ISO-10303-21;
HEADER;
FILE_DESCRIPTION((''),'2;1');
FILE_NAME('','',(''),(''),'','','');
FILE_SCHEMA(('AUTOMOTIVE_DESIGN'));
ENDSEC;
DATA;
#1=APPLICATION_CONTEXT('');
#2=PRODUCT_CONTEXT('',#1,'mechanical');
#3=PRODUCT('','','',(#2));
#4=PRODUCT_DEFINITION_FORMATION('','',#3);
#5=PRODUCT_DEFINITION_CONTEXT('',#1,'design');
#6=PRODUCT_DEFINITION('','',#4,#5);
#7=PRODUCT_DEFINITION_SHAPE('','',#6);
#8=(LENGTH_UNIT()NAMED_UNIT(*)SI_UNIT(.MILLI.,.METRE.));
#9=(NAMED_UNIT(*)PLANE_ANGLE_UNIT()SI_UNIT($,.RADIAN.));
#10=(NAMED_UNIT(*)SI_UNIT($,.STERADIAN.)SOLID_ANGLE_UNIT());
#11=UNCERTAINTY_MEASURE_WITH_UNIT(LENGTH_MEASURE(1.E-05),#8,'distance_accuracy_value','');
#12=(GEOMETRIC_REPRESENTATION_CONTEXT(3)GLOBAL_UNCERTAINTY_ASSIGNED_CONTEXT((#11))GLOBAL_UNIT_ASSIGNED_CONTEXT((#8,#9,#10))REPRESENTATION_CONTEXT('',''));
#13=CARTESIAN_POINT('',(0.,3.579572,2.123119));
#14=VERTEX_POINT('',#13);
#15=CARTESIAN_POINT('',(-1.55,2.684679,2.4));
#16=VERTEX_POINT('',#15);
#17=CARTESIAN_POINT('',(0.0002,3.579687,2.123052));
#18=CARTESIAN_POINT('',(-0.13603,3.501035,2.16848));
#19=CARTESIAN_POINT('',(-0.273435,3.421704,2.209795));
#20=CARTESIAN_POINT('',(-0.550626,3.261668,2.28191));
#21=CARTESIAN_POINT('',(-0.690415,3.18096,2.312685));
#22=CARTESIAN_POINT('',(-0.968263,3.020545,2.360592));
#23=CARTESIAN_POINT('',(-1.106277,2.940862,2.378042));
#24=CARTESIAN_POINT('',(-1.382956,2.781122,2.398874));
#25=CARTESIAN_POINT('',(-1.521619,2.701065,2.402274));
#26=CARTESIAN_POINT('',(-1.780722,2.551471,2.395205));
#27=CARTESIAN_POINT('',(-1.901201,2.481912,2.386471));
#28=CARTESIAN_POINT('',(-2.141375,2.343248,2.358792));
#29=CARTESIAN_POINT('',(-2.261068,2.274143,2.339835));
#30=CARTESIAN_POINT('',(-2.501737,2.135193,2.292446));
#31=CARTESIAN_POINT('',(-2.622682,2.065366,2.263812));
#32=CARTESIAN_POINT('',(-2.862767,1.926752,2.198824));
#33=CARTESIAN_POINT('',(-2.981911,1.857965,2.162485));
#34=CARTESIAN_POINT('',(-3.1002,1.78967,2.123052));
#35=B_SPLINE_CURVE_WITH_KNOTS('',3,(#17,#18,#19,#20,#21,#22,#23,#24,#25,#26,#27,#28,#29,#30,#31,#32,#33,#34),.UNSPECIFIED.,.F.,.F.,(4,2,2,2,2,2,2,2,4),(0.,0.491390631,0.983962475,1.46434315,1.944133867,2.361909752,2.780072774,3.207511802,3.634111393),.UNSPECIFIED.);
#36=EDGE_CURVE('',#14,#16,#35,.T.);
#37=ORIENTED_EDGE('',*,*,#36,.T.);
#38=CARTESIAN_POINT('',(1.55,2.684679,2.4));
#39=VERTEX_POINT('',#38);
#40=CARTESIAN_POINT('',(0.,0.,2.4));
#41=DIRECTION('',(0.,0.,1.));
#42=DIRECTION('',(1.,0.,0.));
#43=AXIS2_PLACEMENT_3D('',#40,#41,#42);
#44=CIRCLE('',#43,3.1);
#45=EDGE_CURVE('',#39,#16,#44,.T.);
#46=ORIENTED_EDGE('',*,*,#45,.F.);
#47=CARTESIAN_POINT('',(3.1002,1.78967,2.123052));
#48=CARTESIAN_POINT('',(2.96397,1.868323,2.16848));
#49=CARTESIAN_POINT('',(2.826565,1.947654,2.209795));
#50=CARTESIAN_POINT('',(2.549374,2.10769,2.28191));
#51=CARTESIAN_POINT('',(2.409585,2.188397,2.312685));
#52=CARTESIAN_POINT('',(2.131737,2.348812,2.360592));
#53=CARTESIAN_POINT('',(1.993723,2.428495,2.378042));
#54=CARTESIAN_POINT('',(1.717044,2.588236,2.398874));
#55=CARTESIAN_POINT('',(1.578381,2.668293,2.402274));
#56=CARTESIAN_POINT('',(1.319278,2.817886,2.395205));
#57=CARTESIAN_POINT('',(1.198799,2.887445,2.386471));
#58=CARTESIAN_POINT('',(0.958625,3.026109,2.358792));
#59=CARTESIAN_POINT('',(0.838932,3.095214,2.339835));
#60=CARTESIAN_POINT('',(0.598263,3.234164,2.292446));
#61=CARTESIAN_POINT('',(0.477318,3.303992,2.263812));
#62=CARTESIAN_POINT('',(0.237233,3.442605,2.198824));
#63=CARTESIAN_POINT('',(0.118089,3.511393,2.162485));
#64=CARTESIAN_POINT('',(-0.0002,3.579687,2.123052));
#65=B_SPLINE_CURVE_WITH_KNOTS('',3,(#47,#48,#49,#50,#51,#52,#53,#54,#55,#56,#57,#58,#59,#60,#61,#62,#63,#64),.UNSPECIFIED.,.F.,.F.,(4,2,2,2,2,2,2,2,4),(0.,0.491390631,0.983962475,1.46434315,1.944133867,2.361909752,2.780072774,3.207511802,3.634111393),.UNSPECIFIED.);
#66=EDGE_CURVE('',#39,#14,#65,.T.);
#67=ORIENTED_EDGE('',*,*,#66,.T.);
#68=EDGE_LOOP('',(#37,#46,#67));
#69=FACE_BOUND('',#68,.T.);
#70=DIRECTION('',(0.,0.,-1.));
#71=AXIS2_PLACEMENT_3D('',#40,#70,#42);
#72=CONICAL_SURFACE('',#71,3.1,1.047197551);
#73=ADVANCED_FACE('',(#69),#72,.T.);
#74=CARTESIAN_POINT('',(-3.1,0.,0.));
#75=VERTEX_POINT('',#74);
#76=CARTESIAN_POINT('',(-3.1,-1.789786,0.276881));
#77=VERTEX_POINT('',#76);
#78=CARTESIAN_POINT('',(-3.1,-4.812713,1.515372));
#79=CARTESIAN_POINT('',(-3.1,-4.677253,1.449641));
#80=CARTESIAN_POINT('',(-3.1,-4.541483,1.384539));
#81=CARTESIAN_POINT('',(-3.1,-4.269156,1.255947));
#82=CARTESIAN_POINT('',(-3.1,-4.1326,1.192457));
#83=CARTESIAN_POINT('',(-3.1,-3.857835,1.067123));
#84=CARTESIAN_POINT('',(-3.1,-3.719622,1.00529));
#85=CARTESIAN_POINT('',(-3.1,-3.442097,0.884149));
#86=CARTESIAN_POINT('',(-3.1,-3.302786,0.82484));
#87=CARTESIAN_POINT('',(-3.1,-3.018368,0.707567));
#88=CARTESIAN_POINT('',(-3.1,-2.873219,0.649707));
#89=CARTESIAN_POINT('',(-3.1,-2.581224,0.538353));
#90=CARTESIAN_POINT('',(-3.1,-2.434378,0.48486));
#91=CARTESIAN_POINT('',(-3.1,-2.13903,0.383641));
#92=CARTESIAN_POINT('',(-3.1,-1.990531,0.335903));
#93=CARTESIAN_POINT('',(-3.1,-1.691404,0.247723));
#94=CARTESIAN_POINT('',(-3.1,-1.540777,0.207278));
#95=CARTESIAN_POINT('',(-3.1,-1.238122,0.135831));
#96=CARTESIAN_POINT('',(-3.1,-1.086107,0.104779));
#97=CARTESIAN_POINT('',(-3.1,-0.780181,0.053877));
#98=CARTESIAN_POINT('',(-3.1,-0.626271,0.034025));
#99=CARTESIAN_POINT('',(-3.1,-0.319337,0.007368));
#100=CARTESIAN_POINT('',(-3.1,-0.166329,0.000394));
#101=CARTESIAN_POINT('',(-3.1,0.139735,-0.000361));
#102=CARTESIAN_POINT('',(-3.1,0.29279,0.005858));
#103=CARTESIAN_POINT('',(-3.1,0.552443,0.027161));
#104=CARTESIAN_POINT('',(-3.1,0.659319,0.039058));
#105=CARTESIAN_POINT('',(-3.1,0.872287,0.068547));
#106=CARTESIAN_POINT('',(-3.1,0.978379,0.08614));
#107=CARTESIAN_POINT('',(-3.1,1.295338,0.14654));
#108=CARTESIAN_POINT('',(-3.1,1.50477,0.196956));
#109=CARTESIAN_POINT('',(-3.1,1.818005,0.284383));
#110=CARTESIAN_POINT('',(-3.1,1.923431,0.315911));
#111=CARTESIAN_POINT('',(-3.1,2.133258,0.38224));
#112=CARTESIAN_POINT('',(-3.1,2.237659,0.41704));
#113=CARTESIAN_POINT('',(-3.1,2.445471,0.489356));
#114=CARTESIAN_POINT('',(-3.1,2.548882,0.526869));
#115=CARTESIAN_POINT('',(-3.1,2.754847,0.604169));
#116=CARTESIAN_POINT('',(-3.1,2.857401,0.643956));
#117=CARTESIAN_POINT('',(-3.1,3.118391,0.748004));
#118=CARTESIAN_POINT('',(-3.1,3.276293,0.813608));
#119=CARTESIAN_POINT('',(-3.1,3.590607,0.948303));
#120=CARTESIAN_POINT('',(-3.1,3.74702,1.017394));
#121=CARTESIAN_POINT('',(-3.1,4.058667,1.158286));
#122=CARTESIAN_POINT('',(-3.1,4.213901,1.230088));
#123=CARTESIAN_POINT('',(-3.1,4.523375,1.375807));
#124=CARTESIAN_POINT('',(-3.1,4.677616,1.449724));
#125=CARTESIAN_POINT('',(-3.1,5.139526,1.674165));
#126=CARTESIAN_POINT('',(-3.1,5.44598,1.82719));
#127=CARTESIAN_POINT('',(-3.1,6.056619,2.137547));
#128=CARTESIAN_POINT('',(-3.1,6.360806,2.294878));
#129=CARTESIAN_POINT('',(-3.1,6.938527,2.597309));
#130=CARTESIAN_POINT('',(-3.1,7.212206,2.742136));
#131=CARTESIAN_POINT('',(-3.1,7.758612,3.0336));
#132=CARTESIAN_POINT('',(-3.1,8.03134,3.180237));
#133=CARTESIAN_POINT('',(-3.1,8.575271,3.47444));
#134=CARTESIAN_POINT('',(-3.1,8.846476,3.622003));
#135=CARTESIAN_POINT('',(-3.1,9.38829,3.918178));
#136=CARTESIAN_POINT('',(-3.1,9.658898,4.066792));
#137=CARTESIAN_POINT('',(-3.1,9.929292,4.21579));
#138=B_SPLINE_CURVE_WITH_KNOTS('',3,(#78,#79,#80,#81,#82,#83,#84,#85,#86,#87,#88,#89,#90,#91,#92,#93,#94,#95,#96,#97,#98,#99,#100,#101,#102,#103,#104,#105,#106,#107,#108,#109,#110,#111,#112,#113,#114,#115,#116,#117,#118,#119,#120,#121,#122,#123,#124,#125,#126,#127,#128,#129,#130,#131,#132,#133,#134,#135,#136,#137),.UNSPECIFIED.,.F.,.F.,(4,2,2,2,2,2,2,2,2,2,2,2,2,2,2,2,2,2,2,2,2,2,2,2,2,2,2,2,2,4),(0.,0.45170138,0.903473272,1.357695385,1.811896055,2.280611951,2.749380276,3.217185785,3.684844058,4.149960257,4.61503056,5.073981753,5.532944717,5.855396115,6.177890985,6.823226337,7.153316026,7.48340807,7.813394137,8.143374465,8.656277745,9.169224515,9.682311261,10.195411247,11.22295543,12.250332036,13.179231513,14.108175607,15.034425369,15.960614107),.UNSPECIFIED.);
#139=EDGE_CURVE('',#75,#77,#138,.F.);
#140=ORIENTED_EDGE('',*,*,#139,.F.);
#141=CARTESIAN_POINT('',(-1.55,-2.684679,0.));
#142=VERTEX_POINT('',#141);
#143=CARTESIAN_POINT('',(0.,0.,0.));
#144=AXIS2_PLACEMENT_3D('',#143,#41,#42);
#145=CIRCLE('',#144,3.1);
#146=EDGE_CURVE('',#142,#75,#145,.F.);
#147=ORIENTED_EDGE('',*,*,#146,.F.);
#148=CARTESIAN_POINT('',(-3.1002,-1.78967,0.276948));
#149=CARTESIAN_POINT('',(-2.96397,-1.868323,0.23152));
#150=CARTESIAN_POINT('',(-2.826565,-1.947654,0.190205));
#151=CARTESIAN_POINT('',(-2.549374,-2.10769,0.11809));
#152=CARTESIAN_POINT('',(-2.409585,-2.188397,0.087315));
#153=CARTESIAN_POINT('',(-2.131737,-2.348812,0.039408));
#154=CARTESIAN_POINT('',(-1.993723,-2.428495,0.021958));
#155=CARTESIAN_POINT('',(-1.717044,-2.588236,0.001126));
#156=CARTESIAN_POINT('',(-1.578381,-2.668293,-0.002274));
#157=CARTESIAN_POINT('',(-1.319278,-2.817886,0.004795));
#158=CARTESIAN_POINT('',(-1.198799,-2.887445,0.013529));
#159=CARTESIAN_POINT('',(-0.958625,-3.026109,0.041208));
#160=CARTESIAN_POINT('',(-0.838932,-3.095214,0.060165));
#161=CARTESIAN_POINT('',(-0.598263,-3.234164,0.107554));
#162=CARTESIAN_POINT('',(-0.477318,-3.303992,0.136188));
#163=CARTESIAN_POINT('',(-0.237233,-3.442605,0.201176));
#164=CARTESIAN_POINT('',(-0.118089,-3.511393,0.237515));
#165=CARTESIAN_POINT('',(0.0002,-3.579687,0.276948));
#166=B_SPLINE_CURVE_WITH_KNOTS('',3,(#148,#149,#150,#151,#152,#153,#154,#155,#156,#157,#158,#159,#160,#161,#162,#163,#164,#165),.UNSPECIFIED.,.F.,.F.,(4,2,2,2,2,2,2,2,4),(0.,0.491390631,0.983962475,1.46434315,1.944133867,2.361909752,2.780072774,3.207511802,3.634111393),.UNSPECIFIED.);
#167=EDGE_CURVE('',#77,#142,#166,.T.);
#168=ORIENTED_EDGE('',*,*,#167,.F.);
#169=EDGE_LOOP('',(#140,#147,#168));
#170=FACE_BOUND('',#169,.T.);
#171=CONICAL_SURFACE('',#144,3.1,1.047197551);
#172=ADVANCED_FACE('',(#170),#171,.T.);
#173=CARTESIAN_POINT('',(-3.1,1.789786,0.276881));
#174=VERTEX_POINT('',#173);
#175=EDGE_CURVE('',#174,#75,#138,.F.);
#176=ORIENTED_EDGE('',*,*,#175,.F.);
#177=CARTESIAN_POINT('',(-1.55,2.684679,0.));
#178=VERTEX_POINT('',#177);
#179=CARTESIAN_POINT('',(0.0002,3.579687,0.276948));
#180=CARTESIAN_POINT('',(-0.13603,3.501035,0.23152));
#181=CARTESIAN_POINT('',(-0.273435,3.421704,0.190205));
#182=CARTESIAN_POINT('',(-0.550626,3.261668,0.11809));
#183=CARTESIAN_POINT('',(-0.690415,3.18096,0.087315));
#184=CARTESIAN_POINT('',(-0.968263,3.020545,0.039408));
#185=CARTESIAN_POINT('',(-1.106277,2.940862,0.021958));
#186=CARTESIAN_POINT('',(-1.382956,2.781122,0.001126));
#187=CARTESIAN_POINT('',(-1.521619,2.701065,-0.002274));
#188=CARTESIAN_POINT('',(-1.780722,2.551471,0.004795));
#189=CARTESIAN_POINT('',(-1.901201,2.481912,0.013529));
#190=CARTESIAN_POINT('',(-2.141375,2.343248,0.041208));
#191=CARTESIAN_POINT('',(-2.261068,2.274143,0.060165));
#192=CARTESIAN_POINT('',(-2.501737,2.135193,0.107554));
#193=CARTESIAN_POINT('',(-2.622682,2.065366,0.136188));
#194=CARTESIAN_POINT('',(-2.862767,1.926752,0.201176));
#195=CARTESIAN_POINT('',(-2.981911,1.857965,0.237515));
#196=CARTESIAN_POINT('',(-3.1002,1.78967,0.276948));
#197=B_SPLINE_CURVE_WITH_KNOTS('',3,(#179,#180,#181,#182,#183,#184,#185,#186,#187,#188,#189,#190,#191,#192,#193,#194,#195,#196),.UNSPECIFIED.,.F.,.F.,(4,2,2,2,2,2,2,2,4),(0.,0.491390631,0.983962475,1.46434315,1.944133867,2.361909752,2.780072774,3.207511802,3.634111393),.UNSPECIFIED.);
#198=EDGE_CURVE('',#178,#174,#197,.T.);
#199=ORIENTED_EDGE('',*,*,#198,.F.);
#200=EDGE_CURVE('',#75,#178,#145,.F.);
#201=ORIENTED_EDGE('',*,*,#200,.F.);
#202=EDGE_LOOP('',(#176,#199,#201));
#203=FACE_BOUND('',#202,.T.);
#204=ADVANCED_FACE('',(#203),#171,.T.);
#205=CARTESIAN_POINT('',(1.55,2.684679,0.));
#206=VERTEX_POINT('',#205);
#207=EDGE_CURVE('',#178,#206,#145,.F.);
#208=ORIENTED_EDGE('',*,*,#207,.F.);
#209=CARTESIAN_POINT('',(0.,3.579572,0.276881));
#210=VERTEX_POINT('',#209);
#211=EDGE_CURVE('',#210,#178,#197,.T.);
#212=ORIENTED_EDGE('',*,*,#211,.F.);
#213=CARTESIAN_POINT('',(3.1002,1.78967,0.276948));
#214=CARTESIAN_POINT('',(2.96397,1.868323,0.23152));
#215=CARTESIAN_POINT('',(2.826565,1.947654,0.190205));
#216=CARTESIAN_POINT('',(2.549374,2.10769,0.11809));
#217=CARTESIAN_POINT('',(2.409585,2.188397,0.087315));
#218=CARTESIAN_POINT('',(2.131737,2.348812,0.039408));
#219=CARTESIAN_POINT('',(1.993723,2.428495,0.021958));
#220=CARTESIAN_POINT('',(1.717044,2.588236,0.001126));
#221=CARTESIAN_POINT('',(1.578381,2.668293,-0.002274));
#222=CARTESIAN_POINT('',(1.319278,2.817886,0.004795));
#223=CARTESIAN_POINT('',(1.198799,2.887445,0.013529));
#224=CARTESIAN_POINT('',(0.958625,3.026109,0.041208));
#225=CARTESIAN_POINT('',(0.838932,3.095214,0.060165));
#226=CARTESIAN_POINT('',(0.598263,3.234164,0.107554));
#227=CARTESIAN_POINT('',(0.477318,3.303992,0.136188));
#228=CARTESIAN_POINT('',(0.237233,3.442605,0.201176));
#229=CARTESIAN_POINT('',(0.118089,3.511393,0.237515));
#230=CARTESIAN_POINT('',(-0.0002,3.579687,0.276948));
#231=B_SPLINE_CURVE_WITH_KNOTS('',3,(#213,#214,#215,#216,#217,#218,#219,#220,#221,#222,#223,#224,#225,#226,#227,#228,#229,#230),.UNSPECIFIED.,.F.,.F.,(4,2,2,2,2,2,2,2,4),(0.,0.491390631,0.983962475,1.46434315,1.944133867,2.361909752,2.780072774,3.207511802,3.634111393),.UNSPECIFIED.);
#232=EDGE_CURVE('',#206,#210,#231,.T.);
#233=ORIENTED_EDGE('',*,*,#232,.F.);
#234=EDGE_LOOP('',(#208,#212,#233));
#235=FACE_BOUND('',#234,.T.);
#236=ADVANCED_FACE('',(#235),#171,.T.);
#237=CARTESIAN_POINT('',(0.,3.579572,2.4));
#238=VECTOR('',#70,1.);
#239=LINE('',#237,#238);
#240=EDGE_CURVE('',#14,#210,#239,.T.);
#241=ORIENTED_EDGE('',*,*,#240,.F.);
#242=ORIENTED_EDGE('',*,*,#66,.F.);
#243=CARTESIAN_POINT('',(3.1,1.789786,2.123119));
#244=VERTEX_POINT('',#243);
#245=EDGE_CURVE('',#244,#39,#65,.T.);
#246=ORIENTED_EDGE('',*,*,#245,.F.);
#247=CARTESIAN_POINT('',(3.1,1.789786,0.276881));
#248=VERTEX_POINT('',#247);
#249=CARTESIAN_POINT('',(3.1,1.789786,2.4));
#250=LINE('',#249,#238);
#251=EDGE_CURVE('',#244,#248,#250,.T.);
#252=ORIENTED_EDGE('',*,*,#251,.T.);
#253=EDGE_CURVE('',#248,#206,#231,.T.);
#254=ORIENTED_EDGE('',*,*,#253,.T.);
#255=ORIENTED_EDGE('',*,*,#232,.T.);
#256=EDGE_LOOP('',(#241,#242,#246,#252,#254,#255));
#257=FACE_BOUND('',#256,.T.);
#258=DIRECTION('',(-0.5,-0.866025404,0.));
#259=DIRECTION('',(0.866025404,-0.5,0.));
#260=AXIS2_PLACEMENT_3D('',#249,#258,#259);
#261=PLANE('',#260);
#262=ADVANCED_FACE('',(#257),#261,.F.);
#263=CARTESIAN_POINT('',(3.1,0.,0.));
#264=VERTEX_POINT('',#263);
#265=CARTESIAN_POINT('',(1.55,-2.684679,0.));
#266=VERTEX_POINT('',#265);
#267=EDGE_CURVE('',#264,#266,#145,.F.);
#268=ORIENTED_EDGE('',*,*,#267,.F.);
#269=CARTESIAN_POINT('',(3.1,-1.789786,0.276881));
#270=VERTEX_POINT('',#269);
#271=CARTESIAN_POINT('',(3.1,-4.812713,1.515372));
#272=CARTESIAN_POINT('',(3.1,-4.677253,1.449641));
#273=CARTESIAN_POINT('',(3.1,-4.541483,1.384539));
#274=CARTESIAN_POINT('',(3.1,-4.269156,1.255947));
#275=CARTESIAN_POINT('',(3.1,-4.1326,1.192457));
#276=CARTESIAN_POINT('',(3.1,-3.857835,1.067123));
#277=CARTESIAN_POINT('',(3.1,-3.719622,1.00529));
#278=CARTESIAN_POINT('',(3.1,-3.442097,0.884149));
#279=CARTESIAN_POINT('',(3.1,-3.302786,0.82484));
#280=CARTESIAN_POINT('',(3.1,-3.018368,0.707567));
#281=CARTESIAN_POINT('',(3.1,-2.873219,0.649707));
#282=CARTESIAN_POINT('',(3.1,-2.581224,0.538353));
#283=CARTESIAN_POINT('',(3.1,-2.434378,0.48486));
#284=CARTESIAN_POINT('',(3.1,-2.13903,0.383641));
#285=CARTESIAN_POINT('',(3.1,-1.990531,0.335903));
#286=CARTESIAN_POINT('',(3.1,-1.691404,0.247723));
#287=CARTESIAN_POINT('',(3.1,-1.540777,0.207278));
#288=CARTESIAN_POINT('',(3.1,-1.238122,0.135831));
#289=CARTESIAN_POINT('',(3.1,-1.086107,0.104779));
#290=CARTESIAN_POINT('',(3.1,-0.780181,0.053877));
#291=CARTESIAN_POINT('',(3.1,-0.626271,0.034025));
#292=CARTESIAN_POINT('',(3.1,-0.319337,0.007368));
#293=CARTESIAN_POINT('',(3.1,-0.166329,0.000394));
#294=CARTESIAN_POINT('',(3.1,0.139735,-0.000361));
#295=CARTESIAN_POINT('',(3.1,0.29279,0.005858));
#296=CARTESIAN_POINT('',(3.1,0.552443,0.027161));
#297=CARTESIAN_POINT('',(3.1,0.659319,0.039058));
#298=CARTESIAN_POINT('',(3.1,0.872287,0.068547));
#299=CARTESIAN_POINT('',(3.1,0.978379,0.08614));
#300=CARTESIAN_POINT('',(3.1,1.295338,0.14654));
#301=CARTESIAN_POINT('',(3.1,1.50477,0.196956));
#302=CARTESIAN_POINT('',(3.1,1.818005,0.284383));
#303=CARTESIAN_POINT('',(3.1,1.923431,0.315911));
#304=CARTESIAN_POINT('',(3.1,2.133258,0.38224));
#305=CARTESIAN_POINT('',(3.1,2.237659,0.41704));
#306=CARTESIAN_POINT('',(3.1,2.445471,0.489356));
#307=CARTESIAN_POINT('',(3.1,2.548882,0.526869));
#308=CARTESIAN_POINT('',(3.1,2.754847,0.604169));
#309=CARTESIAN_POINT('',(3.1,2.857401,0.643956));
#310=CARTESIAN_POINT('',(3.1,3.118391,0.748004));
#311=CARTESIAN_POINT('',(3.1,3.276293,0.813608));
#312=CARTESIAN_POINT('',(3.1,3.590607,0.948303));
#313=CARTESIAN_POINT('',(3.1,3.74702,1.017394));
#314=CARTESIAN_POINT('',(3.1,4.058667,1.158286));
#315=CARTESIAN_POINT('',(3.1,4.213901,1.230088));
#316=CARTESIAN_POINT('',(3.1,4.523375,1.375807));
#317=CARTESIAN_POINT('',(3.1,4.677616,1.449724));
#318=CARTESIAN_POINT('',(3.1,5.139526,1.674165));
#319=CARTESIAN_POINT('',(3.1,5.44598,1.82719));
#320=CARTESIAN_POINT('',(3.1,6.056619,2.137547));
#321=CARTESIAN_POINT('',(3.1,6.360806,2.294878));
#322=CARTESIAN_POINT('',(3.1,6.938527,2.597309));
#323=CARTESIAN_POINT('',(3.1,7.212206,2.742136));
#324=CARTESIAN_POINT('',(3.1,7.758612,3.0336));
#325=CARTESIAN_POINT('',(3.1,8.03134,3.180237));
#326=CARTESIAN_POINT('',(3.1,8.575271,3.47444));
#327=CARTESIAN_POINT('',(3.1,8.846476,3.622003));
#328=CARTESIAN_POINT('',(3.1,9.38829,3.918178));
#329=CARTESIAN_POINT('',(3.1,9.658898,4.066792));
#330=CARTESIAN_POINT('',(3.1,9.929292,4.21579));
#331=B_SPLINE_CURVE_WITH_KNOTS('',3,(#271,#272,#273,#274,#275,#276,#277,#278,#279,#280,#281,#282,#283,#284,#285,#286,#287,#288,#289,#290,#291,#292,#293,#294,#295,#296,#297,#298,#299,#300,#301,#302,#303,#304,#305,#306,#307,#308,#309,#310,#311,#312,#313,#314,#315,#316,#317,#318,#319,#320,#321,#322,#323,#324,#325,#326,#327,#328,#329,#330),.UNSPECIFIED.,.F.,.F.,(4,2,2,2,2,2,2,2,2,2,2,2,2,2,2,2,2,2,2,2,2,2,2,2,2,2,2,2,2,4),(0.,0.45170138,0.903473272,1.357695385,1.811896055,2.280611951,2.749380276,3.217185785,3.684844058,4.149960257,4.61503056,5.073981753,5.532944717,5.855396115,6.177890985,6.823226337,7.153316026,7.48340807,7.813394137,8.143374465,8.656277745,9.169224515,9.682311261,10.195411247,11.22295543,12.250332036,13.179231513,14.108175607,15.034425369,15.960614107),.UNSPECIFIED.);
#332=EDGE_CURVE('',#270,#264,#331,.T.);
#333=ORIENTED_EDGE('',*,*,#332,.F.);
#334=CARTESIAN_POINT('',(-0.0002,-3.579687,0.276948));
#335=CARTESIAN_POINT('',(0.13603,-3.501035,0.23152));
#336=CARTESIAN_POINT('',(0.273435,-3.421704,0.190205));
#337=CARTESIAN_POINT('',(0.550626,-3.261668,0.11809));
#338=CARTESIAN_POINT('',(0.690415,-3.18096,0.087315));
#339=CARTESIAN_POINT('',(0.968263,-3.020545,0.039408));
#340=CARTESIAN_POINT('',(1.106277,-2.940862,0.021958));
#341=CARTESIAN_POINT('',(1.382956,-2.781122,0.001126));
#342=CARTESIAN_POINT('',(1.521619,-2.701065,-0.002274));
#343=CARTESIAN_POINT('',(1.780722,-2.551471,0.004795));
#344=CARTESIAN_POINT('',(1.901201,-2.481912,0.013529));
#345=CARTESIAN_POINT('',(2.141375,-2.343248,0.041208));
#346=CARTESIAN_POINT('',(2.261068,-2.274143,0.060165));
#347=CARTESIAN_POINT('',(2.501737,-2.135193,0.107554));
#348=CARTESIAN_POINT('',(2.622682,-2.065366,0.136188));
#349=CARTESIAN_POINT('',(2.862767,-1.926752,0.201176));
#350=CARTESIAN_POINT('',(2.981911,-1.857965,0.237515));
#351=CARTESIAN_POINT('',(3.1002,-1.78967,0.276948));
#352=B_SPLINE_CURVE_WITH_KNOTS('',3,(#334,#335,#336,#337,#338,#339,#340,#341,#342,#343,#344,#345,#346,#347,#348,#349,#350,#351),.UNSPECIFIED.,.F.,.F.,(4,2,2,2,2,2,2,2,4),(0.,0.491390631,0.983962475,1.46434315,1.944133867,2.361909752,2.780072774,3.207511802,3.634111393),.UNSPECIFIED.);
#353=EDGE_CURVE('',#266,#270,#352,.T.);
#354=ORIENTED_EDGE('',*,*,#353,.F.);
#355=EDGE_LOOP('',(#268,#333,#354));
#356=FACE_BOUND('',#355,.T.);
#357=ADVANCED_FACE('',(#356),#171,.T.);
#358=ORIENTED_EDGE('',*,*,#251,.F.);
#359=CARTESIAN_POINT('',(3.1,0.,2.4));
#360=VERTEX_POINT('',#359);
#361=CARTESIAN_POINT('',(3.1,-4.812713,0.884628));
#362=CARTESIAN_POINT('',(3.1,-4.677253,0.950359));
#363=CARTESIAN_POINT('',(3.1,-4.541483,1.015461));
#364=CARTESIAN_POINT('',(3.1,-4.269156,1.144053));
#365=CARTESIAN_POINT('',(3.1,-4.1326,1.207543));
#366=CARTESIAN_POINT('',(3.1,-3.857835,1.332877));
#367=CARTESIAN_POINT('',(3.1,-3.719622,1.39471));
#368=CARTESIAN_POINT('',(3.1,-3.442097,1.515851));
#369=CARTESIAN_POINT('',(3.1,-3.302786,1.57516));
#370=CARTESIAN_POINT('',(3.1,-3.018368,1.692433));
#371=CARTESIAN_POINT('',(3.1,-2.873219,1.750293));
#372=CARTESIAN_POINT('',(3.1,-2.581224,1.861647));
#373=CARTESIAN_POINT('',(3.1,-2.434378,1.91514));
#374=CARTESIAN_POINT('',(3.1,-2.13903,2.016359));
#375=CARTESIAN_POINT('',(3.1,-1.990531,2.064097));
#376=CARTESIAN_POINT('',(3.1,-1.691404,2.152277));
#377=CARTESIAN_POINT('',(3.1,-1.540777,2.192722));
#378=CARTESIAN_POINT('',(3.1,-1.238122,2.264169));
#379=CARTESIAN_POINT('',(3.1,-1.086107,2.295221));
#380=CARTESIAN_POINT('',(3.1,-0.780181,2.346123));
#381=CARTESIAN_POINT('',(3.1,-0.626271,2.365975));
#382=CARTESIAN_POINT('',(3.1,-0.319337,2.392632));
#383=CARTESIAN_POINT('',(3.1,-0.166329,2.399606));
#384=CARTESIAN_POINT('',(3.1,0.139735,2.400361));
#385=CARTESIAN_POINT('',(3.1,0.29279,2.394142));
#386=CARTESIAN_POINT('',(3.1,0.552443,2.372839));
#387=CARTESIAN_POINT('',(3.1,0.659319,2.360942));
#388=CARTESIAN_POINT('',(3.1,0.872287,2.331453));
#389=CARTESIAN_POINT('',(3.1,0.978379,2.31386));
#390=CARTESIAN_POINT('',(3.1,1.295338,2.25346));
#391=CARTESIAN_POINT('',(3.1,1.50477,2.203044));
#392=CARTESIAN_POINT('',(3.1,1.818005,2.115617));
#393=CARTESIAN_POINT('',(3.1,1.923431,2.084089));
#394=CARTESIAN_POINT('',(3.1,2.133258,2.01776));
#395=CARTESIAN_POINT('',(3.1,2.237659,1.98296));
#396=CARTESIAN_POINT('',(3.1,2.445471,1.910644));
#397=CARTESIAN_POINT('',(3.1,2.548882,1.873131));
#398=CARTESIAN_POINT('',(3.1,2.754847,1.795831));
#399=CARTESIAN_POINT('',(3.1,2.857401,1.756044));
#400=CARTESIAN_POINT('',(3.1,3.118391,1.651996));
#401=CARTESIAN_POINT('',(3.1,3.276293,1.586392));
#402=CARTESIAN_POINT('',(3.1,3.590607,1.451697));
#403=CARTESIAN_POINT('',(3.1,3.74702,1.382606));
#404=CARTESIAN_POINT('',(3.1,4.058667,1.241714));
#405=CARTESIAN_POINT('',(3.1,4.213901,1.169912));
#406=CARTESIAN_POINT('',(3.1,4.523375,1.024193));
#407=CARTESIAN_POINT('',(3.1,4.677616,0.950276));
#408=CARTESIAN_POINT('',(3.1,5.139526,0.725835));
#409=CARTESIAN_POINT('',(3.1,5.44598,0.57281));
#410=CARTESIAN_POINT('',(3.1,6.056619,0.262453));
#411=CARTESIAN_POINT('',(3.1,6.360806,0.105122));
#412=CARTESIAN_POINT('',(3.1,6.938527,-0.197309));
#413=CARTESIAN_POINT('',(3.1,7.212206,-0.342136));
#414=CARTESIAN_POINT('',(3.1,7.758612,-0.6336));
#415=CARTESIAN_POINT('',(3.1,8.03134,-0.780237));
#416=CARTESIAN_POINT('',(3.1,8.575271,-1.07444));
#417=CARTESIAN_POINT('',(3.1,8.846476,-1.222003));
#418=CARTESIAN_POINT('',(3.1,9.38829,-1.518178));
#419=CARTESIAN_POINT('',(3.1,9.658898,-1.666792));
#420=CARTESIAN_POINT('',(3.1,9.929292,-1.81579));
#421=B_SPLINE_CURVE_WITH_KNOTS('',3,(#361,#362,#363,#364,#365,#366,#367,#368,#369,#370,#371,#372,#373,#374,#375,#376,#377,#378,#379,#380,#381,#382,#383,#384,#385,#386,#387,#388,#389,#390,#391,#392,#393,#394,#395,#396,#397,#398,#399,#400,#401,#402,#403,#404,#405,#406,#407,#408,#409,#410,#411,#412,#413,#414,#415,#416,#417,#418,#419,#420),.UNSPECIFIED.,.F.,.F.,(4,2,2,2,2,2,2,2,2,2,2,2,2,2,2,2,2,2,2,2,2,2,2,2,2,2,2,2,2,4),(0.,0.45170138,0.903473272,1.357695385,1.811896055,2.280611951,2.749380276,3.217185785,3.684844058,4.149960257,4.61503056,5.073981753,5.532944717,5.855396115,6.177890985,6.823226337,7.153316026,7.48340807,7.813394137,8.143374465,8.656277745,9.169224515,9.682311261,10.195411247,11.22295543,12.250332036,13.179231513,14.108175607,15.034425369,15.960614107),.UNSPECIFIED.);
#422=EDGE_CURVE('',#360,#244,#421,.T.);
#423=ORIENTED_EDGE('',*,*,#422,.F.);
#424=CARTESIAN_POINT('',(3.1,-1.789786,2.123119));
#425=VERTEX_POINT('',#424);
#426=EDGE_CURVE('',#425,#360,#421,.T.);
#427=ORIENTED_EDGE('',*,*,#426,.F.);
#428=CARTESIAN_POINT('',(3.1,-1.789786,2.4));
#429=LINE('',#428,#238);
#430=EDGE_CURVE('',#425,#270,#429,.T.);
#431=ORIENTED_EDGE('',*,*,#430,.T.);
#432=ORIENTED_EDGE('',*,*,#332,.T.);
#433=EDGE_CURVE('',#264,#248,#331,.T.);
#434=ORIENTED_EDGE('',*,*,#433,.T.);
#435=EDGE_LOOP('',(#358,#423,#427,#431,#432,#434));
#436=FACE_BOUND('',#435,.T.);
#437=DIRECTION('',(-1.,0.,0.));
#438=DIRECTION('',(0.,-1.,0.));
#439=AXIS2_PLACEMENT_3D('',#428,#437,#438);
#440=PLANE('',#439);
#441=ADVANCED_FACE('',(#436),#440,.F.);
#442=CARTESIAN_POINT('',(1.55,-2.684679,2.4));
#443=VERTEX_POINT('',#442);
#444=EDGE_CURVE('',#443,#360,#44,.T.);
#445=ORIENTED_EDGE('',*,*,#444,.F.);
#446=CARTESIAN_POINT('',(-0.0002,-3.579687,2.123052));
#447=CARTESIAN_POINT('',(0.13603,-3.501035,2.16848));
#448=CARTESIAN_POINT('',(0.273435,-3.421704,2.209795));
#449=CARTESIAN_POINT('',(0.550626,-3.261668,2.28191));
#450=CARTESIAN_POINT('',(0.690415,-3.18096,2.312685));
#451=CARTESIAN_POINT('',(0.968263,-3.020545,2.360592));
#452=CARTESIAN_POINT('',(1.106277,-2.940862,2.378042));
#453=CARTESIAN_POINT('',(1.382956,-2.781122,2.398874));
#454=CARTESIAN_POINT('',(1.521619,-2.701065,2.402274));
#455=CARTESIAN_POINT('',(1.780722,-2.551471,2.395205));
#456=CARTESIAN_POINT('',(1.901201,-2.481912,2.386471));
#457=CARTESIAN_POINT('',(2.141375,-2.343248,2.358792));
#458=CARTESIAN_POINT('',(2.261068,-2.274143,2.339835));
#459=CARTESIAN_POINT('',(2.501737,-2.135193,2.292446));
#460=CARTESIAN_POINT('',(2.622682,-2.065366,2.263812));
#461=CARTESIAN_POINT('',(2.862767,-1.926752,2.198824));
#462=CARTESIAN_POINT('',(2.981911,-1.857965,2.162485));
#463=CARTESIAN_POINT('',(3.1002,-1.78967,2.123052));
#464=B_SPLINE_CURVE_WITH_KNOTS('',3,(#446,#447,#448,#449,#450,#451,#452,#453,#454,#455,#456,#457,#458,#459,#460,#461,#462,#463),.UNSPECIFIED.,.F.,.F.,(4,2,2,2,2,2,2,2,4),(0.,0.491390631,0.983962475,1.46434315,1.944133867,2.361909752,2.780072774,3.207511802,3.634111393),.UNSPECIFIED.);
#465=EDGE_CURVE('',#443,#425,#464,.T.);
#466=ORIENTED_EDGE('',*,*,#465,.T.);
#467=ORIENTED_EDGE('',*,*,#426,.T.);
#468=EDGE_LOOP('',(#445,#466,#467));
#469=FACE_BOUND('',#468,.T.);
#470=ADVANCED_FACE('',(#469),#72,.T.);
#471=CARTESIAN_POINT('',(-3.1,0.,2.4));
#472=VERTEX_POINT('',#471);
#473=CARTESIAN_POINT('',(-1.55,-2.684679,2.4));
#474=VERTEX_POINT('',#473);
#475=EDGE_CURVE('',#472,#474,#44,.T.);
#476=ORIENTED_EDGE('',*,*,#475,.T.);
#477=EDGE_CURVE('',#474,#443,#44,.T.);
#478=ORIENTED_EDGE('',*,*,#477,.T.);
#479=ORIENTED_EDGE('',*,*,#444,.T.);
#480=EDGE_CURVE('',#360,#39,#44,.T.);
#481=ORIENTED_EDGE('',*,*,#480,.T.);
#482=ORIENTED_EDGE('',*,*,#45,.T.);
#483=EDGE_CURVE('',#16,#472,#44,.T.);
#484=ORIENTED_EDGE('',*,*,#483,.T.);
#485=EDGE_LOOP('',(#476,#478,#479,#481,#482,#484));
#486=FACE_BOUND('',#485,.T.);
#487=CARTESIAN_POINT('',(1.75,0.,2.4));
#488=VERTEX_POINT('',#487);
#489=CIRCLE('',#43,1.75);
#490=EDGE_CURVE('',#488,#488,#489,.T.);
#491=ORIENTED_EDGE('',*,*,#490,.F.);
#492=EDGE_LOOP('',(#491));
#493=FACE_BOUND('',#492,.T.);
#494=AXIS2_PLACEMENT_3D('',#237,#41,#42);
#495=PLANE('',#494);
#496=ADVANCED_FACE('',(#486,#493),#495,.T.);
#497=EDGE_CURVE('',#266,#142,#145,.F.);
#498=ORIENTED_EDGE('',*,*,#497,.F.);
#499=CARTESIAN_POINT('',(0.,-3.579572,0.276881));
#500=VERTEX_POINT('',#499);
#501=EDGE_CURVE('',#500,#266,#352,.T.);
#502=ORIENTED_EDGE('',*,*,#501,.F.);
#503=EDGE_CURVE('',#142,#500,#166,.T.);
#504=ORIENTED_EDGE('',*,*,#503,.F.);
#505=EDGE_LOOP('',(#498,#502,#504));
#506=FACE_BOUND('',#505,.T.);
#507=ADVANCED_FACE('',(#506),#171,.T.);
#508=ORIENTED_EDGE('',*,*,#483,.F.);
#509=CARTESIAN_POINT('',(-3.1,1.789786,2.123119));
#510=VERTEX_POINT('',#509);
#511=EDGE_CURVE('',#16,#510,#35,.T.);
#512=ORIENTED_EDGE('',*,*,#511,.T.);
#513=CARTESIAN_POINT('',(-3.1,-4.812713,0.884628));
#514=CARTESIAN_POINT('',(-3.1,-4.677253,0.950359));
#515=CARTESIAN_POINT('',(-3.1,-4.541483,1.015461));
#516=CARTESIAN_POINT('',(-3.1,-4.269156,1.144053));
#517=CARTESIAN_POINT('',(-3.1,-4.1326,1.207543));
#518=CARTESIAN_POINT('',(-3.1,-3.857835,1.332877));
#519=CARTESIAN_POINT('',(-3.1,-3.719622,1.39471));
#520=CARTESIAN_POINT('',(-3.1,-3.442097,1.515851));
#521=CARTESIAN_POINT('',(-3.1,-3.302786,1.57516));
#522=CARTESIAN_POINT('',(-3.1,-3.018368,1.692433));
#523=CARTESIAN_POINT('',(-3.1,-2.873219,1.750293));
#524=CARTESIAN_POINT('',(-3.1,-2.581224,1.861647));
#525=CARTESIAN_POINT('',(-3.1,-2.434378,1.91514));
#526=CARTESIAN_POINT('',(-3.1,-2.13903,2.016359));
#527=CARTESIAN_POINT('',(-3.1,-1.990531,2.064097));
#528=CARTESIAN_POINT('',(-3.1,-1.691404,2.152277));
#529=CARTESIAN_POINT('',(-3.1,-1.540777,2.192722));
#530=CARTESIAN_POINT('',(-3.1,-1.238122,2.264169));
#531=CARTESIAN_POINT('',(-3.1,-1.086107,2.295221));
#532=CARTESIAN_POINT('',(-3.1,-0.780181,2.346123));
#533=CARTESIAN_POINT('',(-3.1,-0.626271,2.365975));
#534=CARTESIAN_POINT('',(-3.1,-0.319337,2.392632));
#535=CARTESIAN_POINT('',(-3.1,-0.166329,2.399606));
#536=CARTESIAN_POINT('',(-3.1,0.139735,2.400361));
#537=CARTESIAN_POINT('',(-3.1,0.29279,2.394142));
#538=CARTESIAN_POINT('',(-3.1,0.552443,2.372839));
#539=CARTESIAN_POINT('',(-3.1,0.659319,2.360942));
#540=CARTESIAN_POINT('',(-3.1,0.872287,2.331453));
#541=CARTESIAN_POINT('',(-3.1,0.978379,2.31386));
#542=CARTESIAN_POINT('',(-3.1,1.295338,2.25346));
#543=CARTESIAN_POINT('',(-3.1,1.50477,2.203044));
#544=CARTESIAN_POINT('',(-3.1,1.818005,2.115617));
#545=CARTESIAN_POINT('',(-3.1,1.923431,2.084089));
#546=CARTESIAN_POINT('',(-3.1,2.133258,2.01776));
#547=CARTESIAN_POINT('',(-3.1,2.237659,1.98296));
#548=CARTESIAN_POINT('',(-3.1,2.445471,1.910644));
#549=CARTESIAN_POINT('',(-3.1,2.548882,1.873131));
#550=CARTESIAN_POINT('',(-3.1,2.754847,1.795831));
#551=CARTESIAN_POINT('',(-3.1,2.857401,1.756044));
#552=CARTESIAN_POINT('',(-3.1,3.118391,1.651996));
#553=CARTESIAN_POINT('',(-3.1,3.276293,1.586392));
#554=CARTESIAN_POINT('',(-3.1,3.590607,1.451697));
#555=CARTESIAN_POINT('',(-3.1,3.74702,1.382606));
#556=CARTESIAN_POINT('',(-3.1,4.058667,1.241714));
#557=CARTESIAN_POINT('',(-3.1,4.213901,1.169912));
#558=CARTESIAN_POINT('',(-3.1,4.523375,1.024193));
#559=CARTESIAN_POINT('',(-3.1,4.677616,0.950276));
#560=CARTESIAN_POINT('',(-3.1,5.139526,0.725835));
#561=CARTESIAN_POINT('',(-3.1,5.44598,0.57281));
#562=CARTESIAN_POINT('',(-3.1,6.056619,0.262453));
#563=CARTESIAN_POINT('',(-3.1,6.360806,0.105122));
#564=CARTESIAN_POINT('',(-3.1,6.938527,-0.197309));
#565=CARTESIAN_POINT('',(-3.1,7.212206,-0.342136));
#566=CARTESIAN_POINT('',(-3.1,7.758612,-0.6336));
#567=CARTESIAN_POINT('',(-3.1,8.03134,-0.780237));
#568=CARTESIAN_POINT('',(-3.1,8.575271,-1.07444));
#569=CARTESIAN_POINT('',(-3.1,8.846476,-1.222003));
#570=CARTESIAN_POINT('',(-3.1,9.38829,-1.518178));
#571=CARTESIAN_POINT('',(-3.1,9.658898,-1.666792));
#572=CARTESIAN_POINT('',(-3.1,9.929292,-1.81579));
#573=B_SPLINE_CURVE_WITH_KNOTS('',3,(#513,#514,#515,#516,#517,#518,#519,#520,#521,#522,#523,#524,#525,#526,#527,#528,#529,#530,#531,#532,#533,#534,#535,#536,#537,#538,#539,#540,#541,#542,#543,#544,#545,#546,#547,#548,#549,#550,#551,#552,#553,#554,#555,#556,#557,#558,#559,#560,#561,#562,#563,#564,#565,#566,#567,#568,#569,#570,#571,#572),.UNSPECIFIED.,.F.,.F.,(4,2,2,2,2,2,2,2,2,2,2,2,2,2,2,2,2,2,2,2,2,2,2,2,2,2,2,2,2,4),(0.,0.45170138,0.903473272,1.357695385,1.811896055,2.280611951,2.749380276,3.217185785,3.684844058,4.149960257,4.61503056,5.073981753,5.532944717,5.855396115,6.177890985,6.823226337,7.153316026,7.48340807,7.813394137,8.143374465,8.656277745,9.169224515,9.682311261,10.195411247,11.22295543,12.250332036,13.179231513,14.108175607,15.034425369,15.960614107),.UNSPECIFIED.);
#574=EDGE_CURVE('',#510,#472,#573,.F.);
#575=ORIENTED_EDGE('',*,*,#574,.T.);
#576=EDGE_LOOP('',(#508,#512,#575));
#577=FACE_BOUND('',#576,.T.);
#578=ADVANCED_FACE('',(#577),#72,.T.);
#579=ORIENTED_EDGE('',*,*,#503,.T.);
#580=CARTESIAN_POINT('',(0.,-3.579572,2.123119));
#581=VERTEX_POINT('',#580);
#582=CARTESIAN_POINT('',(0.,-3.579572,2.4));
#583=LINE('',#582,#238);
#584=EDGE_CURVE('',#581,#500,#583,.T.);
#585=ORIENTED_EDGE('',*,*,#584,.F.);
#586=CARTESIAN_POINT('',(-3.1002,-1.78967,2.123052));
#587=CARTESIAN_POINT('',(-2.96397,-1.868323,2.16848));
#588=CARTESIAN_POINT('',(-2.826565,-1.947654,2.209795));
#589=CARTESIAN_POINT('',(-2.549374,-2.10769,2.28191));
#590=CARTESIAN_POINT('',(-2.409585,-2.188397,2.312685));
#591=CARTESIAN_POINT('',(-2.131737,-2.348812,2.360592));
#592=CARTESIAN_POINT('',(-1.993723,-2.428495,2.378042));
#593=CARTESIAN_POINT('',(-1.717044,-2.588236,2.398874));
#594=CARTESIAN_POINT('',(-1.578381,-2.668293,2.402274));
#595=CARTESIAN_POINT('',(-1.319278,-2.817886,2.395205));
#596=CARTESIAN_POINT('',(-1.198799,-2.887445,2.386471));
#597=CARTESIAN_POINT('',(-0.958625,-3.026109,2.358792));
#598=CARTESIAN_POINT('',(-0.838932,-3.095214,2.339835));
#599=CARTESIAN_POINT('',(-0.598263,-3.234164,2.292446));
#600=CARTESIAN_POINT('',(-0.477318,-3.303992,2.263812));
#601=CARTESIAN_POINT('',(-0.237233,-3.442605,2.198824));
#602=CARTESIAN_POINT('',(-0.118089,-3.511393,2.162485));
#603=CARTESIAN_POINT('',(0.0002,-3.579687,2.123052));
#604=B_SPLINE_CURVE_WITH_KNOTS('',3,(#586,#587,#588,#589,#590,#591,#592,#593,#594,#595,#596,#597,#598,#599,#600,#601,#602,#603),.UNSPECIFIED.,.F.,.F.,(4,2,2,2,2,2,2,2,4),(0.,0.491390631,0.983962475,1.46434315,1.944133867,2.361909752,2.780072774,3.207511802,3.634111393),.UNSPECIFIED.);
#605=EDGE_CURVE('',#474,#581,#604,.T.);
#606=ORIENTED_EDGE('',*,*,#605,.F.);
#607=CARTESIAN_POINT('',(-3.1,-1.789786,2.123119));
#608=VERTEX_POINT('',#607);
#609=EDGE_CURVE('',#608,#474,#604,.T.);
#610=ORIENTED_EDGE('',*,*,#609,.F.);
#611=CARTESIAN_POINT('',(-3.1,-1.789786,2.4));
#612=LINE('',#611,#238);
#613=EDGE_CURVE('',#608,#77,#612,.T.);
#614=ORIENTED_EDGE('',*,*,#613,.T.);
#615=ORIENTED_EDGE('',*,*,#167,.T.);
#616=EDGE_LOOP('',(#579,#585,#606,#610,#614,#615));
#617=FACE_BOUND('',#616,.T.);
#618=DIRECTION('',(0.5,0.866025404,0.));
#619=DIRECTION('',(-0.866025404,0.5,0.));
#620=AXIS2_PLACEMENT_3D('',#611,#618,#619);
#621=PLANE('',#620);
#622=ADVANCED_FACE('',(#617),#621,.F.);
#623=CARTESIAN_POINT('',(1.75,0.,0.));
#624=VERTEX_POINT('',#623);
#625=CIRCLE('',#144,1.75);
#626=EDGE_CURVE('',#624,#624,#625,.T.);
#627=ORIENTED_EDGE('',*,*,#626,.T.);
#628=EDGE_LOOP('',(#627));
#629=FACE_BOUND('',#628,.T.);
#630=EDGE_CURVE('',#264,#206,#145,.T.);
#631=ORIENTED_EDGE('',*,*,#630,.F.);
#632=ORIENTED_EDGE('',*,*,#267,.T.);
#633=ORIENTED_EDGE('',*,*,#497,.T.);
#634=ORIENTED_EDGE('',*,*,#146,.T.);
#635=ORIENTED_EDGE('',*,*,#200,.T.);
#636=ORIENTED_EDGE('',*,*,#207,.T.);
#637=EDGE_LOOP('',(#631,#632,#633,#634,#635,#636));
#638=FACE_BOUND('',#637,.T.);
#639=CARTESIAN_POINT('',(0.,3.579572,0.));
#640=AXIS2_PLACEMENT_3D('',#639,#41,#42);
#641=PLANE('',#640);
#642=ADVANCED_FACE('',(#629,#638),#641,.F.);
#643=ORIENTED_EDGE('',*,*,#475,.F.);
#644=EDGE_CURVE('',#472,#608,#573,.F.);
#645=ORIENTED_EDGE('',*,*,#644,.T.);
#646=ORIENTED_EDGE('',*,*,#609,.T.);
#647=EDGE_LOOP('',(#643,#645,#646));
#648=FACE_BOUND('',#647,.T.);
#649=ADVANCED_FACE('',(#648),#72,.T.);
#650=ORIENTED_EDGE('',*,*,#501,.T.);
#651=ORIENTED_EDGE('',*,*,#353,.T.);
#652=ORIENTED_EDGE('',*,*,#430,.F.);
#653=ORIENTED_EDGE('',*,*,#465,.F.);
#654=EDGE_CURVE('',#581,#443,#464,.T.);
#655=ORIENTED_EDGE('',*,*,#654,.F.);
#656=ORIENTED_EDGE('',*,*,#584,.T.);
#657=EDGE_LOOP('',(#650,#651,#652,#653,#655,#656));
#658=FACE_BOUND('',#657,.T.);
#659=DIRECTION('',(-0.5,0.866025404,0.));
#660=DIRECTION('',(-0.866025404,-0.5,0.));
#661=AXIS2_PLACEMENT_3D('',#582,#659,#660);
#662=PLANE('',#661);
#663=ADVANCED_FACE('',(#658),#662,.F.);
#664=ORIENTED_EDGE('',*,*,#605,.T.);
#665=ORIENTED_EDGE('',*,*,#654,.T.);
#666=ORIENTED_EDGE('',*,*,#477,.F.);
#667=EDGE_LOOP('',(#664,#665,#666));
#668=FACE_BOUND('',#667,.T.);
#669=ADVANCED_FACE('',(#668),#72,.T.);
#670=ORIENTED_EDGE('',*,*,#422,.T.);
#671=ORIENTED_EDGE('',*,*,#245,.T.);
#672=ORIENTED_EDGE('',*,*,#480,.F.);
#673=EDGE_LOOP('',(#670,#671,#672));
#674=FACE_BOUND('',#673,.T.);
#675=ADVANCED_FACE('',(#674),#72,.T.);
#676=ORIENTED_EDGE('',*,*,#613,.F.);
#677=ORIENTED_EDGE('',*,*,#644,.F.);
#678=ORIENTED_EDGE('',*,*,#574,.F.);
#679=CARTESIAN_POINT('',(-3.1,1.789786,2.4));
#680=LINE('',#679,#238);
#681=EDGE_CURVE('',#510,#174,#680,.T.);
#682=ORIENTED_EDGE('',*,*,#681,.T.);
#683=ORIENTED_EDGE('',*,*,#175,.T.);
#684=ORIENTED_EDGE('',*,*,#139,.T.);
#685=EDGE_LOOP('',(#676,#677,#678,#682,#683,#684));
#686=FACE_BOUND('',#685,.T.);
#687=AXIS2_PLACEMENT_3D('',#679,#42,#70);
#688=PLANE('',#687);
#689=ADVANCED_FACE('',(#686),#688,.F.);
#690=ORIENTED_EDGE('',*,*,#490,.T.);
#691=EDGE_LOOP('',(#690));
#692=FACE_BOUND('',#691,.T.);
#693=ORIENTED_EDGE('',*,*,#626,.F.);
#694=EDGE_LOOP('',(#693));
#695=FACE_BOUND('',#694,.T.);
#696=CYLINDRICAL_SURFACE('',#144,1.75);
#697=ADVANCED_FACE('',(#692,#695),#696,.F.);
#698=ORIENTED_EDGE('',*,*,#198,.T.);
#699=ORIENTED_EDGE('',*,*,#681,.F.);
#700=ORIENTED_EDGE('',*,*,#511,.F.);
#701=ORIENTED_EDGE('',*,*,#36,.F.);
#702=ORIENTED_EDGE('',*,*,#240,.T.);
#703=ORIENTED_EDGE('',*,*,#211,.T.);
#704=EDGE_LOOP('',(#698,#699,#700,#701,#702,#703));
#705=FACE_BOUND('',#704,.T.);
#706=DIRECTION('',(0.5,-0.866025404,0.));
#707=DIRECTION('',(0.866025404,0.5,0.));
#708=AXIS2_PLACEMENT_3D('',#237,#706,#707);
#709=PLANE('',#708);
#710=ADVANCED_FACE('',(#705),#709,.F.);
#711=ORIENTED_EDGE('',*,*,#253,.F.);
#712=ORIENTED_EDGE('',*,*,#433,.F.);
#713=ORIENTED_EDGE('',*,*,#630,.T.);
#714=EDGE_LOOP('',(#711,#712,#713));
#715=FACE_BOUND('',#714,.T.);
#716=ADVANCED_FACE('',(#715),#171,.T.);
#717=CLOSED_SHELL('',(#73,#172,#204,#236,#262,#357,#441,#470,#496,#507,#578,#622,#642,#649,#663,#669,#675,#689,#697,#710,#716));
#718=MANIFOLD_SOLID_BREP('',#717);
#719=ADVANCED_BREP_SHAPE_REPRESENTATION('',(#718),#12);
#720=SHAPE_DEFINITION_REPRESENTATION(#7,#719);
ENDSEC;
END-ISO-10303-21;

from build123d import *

# Parameters (mm, degrees)
EXTRUDE_1_DEPTH          = 2.4
SKETCH_2_OUTSIDE_W       = 15.35
SKETCH_2_OUTSIDE_H       = 16.31
SKETCH_2_OUTSIDE_R       = 3.1
CUT_EXTRUDE_2_DEPTH      = 1.5
CUT_EXTRUDE_2_DRAFT      = -60
MIRROR_1_COPY_1_SKETCH_W = 15.35
MIRROR_1_COPY_1_SKETCH_H = 16.31
MIRROR_1_COPY_1_SKETCH_R = 3.1
MIRROR_1_COPY_1_DEPTH    = 1.5
MIRROR_1_COPY_1_DRAFT    = -60
SKETCH_3_R               = 1.75
CUT_EXTRUDE_3_DEPTH      = 6.30879773


with BuildPart() as part:
    # 草圖1 → 伸長1 (new body)
    with BuildSketch(Plane.XY):
        Polygon((0, 3.579571669), (-3.1, 1.789785834), (-3.1, -1.789785834), (0, -3.579571669), (3.1, -1.789785834), (3.1, 1.789785834), align=None)
    extrude(amount=EXTRUDE_1_DEPTH)


with BuildPart() as cut_extrude_2_tool:
    # 草圖2 outside → 伸長2 (with draft: the straight prism first)
    with BuildSketch(Plane.XY.offset(2.4)):
        Rectangle(SKETCH_2_OUTSIDE_W, SKETCH_2_OUTSIDE_H)
        Circle(SKETCH_2_OUTSIDE_R, mode=Mode.SUBTRACT)
    extrude(amount=-CUT_EXTRUDE_2_DEPTH)
    # 伸長2: the draft: its side faces are tilted about the plane it starts from
    cut_extrude_2_sides = [cut_extrude_2_tool.faces().sort_by_distance(p)[0] for p in [
        (0, -8.155, 1.65),
        (7.675, 0, 1.65),
        (0, 8.155, 1.65),
        (-7.675, 0, 1.65),
        (-3.1, 0, 1.65),
    ]]
    draft(cut_extrude_2_sides, Plane.XY.offset(2.4), CUT_EXTRUDE_2_DRAFT)


with BuildPart() as part_1:
    add(part.part)

    # 伸長2: cut by cut_extrude_2_tool
    add(cut_extrude_2_tool.part, mode=Mode.SUBTRACT)


with BuildPart() as mirror_1_copy_1_tool:
    # 鏡射1 copy 1 sketch → 鏡射1 copy 1 (with draft: the straight prism first)
    with BuildSketch(Plane(origin=(0, 0, 0), x_dir=(1, 0, 0), z_dir=(0, 0, -1))):
        Rectangle(MIRROR_1_COPY_1_SKETCH_W, MIRROR_1_COPY_1_SKETCH_H)
        Circle(MIRROR_1_COPY_1_SKETCH_R, mode=Mode.SUBTRACT)
    extrude(amount=-MIRROR_1_COPY_1_DEPTH)
    # 鏡射1 copy 1: the draft: its side faces are tilted about the plane it starts from
    mirror_1_copy_1_sides = [mirror_1_copy_1_tool.faces().sort_by_distance(p)[0] for p in [
        (0, -8.155, 0.75),
        (7.675, 0, 0.75),
        (0, 8.155, 0.75),
        (-7.675, 0, 0.75),
        (-3.1, 0, 0.75),
    ]]
    draft(mirror_1_copy_1_sides, Plane(origin=(0, 0, 0), x_dir=(1, 0, 0), z_dir=(0, 0, -1)), MIRROR_1_COPY_1_DRAFT)


with BuildPart() as part_2:
    add(part_1.part)

    # 鏡射1 copy 1: cut by mirror_1_copy_1_tool
    add(mirror_1_copy_1_tool.part, mode=Mode.SUBTRACT)

    # 草圖3 → 伸長3 (cut, through all)
    with BuildSketch(Plane.XY.offset(2.4)):
        Circle(SKETCH_3_R)
    extrude(amount=-CUT_EXTRUDE_3_DEPTH, mode=Mode.SUBTRACT)


solid = part_2.part
